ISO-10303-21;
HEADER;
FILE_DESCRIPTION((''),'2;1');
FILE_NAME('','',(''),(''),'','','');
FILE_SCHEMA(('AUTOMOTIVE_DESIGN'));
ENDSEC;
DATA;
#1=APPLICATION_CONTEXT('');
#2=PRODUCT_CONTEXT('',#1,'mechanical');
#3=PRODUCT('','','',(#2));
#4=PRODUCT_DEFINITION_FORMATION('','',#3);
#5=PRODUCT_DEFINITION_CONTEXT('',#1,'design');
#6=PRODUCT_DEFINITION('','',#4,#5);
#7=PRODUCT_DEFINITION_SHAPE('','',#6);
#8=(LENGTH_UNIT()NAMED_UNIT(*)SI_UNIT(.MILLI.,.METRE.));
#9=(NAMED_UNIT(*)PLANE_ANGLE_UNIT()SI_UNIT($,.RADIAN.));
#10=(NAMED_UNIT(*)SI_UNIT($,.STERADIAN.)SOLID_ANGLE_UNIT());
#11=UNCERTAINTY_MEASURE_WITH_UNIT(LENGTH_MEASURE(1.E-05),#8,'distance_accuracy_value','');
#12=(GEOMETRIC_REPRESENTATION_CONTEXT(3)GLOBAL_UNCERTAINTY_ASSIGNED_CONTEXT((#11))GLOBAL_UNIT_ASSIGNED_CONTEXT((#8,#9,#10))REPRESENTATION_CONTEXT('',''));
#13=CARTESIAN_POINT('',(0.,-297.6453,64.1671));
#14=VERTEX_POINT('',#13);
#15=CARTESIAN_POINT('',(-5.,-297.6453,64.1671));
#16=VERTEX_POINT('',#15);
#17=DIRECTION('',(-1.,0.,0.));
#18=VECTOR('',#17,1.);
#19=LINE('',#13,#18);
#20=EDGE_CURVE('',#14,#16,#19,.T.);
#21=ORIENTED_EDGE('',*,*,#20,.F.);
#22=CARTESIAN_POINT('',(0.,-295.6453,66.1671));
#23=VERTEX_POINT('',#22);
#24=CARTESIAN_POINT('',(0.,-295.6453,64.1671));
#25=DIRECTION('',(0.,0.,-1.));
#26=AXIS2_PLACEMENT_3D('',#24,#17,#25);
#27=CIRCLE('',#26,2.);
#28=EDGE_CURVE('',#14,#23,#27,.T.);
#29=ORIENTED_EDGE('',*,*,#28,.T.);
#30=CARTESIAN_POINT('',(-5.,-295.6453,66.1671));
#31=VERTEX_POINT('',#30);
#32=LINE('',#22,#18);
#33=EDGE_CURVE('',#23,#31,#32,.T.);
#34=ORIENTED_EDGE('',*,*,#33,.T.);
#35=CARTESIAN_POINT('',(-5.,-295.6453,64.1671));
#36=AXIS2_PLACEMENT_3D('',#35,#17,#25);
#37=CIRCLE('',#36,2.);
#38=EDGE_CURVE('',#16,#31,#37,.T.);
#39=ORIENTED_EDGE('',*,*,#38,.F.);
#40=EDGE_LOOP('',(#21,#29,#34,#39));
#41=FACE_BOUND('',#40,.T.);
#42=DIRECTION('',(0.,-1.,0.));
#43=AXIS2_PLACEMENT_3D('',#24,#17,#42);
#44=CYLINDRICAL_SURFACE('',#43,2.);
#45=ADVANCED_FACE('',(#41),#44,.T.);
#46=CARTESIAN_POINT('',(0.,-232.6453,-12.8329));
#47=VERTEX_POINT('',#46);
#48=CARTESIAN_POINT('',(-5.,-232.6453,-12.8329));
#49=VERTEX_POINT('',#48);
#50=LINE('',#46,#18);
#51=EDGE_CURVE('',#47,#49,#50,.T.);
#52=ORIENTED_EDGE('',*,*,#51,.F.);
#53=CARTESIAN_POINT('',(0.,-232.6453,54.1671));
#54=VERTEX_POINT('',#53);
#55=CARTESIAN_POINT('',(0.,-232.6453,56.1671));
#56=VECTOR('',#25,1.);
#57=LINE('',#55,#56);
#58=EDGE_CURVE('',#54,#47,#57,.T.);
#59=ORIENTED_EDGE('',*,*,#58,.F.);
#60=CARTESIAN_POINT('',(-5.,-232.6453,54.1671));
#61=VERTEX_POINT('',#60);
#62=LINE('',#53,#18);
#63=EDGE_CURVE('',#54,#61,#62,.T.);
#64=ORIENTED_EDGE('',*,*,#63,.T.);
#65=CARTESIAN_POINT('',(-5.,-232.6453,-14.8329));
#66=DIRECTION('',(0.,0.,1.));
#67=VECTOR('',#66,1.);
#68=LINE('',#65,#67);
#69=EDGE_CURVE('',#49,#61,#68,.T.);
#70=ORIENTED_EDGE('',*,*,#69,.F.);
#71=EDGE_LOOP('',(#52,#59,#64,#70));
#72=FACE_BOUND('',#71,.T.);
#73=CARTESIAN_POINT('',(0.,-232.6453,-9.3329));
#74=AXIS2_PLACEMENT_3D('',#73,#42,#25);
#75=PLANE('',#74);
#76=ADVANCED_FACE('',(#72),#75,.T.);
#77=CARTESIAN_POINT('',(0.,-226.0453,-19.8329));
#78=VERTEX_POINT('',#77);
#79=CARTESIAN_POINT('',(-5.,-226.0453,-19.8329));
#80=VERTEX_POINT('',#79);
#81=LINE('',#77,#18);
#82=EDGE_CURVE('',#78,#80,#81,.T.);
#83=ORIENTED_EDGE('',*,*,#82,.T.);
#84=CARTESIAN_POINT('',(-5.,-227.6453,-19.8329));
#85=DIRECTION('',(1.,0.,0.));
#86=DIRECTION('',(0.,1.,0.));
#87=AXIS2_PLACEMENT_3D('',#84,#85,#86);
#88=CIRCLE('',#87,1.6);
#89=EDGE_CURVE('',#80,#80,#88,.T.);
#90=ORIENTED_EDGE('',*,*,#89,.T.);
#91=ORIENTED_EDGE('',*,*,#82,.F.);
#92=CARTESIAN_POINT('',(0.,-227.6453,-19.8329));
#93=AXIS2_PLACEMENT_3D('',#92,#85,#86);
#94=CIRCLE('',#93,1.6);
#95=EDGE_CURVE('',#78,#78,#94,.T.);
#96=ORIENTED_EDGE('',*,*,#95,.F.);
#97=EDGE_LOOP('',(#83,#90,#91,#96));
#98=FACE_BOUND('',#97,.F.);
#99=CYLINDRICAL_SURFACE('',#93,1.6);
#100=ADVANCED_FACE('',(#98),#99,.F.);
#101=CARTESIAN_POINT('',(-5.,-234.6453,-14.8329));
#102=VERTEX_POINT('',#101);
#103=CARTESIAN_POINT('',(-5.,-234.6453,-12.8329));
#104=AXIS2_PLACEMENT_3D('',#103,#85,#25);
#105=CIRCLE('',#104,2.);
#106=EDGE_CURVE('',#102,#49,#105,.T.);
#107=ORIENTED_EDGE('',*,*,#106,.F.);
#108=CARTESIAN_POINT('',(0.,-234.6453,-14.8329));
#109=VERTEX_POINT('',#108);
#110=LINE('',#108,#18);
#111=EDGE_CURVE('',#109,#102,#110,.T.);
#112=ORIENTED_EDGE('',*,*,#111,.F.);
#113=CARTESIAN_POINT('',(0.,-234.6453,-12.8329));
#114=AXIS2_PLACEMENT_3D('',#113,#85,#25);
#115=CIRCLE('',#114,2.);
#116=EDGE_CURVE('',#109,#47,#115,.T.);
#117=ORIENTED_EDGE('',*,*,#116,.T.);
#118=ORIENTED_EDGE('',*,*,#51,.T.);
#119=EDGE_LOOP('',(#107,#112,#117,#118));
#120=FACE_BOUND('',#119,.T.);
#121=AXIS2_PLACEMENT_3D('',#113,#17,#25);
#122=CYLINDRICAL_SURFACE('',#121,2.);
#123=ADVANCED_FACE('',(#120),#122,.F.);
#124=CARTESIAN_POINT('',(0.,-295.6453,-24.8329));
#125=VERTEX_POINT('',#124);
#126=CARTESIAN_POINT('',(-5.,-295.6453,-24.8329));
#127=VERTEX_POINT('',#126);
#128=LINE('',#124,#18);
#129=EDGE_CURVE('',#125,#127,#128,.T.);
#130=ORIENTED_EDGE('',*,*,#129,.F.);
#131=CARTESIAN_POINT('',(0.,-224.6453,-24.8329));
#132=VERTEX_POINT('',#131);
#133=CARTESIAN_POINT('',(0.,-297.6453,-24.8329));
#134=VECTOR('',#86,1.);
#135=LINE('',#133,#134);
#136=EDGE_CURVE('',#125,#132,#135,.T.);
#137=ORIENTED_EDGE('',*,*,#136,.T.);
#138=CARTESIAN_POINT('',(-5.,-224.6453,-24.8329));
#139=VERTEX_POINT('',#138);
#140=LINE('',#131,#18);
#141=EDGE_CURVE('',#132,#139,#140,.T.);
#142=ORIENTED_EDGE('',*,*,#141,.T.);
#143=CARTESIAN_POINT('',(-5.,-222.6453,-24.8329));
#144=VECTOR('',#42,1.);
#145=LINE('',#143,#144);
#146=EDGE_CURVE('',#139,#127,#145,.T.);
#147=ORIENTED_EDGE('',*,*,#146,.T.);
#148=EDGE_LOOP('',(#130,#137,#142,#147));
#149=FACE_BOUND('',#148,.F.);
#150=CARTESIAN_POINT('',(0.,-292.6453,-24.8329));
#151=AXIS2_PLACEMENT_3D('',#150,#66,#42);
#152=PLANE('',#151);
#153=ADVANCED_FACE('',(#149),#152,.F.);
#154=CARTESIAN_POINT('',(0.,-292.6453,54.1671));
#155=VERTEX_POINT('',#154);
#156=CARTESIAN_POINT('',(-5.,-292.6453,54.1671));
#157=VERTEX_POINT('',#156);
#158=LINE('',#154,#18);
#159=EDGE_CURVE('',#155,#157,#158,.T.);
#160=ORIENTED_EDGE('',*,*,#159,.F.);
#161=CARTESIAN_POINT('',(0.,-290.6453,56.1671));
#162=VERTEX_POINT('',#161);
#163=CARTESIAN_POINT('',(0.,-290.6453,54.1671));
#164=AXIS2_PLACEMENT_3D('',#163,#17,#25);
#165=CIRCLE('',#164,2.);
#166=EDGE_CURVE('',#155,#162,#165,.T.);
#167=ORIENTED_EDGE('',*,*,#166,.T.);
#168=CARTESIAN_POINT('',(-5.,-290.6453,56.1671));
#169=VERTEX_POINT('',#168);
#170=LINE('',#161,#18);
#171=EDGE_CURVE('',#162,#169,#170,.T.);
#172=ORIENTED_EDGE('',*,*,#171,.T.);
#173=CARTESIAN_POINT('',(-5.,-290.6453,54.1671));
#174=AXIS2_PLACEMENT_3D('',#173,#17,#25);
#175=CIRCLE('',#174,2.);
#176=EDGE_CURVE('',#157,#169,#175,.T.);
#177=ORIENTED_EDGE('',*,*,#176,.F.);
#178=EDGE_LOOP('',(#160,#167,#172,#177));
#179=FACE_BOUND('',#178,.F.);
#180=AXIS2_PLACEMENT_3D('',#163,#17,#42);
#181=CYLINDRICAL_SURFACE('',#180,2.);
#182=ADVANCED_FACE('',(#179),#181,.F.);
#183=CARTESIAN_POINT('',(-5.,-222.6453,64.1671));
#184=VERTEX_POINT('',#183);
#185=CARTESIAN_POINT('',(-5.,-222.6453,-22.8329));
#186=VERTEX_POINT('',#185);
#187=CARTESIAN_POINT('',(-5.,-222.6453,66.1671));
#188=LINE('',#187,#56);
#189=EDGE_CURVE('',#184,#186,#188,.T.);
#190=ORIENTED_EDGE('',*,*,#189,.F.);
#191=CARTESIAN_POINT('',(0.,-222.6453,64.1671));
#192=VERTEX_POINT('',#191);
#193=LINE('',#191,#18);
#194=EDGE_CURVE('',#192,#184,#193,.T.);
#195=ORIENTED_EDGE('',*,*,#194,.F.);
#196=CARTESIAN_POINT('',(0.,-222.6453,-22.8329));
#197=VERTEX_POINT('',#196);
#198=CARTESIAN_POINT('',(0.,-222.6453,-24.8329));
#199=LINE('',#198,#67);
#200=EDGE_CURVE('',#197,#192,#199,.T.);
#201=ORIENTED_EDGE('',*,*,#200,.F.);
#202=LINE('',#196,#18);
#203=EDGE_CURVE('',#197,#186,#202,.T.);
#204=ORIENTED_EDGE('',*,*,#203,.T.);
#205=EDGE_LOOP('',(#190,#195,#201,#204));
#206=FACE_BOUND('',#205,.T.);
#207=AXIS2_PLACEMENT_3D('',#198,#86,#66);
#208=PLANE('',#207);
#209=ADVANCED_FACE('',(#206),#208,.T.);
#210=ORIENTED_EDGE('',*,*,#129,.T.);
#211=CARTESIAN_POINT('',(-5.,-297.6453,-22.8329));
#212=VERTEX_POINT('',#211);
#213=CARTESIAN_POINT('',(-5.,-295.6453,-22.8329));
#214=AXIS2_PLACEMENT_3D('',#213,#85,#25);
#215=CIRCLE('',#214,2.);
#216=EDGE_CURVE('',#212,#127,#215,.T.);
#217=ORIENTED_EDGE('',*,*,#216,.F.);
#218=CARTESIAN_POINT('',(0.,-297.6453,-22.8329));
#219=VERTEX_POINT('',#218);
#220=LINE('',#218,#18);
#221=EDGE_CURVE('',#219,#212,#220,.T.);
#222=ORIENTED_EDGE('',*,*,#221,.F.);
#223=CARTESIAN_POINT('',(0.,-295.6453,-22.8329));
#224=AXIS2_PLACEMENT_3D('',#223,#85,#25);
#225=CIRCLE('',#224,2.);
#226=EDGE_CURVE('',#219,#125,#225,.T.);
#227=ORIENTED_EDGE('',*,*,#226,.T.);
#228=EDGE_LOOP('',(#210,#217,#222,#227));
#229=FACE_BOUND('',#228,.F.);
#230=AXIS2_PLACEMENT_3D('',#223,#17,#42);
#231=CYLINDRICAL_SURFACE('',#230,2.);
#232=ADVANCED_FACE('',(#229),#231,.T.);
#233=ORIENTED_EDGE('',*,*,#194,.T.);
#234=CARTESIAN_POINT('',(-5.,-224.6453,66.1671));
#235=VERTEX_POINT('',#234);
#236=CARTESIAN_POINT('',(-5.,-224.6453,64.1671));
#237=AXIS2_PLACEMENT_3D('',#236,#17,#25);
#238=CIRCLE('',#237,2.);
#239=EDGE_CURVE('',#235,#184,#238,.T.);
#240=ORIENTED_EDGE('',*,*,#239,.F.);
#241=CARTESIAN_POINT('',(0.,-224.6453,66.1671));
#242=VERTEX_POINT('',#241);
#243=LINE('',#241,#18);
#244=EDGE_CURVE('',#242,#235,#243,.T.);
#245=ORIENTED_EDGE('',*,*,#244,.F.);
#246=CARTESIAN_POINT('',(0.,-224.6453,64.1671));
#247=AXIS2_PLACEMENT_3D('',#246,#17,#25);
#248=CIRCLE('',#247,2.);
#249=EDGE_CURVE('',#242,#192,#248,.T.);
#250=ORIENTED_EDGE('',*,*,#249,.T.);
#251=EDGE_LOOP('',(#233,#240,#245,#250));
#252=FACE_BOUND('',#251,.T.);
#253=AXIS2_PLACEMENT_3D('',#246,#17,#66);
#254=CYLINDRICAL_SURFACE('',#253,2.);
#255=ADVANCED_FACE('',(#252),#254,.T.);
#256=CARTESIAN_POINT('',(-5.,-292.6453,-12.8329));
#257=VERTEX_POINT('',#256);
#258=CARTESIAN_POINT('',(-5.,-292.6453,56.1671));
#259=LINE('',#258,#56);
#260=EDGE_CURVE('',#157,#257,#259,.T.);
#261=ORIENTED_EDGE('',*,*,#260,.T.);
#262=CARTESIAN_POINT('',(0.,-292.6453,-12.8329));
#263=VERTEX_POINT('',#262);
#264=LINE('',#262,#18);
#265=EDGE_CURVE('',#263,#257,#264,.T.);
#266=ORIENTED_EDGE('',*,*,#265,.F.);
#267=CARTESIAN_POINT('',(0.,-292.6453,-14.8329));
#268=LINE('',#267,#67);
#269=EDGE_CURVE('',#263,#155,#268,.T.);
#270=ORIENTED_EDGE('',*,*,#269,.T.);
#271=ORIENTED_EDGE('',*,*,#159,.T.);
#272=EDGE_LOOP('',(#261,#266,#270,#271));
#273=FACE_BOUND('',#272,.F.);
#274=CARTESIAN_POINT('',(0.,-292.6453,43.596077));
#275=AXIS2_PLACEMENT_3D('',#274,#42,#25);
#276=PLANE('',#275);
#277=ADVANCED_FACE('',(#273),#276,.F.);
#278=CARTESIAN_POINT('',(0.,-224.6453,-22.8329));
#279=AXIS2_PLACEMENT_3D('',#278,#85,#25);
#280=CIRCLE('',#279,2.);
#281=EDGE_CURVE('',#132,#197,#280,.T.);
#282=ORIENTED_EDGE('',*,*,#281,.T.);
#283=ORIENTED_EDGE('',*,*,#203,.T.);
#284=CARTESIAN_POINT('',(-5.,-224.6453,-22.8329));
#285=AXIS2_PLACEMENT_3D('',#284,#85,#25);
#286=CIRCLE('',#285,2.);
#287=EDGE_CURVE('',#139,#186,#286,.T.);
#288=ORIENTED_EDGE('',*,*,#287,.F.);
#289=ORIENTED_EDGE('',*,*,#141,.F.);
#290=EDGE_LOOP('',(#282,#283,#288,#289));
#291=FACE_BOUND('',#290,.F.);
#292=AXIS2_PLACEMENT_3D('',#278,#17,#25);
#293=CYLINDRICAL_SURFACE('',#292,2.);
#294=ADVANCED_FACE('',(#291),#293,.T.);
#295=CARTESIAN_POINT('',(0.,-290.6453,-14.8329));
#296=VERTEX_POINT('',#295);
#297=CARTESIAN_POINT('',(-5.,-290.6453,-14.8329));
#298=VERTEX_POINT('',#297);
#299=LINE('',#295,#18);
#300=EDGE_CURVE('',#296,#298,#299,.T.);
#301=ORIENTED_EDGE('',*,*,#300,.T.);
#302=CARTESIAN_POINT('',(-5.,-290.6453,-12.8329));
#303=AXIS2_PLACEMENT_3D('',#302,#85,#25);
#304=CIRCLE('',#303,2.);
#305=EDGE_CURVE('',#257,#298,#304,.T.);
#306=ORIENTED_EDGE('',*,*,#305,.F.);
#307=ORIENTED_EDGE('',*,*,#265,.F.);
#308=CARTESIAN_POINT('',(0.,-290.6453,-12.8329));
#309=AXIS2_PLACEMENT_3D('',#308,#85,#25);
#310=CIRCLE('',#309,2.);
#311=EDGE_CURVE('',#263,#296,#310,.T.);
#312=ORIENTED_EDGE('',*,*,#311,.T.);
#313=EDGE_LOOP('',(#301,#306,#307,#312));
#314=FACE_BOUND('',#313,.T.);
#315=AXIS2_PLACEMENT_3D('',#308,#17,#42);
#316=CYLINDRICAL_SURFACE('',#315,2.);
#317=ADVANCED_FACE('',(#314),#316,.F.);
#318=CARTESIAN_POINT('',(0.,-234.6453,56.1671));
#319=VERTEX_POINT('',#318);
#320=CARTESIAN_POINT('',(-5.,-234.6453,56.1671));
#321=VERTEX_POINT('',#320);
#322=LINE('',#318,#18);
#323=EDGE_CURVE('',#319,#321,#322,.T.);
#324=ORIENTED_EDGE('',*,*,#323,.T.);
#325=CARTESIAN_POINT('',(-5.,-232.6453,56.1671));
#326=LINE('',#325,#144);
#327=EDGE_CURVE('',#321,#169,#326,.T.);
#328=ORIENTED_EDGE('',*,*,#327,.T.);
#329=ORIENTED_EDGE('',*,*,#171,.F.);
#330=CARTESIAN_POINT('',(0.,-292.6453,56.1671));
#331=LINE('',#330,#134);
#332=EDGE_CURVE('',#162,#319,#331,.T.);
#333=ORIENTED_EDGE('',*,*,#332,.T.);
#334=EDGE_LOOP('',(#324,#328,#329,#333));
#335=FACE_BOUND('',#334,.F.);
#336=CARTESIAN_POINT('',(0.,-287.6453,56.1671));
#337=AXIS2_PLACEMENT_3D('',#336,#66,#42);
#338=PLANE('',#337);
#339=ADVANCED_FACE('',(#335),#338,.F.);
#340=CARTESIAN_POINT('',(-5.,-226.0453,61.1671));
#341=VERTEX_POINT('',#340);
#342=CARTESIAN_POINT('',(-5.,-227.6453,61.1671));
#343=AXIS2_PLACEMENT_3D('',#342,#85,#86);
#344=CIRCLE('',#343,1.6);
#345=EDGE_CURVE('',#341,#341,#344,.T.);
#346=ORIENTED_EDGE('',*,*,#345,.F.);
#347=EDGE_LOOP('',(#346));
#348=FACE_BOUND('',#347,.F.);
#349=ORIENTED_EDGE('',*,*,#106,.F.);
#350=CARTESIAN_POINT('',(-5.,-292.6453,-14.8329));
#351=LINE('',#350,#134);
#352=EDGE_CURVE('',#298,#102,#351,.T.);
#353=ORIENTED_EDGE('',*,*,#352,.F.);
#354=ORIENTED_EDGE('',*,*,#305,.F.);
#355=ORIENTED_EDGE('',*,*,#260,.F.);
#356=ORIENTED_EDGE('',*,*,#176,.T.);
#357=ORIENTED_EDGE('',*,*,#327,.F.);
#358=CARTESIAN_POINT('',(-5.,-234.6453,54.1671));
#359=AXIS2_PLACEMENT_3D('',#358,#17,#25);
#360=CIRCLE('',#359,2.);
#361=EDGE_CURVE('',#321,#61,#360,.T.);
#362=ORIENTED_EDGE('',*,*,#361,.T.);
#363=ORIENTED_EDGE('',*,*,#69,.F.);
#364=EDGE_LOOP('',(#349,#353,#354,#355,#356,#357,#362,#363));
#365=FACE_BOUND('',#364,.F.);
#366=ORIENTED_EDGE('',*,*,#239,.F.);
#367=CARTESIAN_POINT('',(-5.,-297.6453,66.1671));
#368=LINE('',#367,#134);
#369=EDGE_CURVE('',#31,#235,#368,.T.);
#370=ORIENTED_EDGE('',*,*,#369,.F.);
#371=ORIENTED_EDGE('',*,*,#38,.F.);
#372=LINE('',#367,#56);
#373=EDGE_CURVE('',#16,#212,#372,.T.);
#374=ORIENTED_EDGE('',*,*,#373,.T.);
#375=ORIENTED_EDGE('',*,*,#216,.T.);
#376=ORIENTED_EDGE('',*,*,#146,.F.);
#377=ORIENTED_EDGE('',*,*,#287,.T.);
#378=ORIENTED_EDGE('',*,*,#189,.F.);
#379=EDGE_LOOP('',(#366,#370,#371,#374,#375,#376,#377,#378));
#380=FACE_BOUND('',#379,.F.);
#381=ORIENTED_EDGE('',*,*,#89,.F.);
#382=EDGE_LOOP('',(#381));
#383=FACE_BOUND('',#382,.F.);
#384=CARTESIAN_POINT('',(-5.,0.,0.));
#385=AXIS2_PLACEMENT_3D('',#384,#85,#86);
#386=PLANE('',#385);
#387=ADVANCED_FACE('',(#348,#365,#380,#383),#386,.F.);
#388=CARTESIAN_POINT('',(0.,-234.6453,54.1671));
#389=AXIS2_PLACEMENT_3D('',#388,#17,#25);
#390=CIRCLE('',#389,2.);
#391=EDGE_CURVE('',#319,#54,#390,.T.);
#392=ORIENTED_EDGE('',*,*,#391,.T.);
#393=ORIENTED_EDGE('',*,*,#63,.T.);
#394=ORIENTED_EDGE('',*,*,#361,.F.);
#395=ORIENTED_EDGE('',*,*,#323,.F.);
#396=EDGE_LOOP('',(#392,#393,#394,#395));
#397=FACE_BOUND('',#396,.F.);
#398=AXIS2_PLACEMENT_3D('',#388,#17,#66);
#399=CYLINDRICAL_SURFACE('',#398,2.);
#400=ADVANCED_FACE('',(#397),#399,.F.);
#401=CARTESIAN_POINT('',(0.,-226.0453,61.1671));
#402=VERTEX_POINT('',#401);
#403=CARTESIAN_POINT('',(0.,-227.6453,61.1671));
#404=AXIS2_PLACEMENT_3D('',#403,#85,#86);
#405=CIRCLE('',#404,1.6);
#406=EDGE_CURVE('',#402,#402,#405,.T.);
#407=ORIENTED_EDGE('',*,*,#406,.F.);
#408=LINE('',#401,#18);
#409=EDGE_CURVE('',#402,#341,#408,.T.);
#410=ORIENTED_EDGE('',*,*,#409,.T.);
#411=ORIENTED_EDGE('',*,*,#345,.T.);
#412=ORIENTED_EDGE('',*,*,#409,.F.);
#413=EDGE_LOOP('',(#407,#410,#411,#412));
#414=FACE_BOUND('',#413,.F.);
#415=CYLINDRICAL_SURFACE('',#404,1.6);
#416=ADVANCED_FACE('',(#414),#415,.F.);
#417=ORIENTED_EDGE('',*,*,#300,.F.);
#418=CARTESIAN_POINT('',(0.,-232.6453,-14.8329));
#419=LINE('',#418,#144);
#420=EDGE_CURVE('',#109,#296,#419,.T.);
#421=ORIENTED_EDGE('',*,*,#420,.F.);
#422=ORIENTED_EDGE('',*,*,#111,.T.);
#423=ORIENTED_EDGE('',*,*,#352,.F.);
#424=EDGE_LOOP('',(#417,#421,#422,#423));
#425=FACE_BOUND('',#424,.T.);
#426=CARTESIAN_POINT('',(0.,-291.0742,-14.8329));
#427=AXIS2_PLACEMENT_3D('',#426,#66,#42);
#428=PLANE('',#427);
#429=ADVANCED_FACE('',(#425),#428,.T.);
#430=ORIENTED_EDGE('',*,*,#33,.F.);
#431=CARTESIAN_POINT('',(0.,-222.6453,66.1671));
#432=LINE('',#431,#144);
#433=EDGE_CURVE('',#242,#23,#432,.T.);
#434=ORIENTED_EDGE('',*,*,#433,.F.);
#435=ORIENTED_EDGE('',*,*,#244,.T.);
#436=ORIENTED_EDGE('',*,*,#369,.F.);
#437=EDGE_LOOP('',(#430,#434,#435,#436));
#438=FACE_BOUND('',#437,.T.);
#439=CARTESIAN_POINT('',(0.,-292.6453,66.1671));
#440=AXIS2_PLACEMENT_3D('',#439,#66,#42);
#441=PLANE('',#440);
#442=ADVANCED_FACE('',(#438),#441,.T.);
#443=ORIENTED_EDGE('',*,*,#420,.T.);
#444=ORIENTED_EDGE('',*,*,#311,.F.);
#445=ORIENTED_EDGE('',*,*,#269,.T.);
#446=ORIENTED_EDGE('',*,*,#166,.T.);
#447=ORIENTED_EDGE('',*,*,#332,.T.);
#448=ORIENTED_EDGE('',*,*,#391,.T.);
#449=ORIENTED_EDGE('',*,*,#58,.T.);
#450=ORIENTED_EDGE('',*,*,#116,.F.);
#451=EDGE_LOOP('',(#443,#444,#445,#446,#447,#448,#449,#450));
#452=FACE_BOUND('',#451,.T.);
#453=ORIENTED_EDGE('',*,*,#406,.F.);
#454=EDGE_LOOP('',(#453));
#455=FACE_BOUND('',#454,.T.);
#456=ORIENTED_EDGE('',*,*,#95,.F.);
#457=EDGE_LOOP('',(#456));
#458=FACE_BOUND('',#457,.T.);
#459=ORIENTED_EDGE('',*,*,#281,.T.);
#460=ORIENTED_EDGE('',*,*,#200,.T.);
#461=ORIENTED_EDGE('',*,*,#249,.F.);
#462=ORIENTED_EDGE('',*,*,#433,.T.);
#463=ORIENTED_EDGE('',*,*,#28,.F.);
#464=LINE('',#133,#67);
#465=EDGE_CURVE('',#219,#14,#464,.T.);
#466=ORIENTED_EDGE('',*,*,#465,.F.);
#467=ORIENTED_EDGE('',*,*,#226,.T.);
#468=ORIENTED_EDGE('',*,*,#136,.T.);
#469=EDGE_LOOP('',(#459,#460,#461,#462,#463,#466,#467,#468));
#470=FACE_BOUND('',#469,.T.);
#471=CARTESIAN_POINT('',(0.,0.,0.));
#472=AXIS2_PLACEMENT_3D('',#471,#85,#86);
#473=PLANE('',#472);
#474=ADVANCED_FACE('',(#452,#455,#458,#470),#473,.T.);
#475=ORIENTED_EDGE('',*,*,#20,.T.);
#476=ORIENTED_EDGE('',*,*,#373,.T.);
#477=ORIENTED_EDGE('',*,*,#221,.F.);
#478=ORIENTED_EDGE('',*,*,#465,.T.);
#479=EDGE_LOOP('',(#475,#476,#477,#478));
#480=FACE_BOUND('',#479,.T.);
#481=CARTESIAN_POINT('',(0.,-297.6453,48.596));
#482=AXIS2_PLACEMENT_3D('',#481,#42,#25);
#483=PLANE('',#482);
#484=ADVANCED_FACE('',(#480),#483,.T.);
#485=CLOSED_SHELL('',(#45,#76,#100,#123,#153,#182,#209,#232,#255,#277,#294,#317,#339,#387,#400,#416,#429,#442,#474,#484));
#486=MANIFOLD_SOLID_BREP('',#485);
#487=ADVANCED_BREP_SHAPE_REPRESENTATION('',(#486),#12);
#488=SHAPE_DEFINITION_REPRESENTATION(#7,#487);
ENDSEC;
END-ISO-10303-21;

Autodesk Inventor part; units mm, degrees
ref_plane "YZ Plane" through (0, 0, 0) normal (1, 0, 0) x (0, 1, 0)
ref_plane "XZ Plane" through (0, 0, 0) normal (0, 1, 0) x (-1, 0, 0)
ref_plane "XY Plane" through (0, 0, 0) normal (0, 0, 1) x (1, 0, 0)
sketch "スケッチ1" plane through (0, 0, 0) normal (1, 0, 0) x (0, 1, 0)
  line L0 (-222.6453, 335.6671) -> (407.3547, 335.6671)
  line L1 (407.3547, 335.6671) -> (407.3547, -294.3329)
  line L2 (407.3547, -294.3329) -> (-222.6453, -294.3329)
  line L3 (-222.6453, -294.3329) -> (-222.6453, 335.6671)
  line L4 (-222.6453, 335.6671) -> (407.3547, -294.3329) construction
  line L5 (407.3547, 335.6671) -> (-222.6453, -294.3329) construction
  line L6 (-202.6453, 238.6671) -> (-202.6453, -181.3329)
  line L7 (-202.6453, -181.3329) -> (-222.6453, -181.3329)
  line L8 (-222.6453, -181.3329) -> (-222.6453, 230.6671)
  line L9 (334.3547, 335.6671) -> (-149.6453, 335.6671)
  line L10 (-149.6453, 335.6671) -> (-149.6453, 315.6671)
  line L11 (-149.6453, 315.6671) -> (334.3547, 315.6671)
  line L12 (334.3547, 315.6671) -> (334.3547, 335.6671)
  line L13 (-202.6453, 238.6671) -> (-202.6453, 335.6671)
  line L14 (92.3547, 20.6671) -> (-864.2426, 20.6671)
  circle A0 centre (92.3547, 20.6671) radius 400
  line L15 (-237.6453, 45.6671) -> (-287.6453, 45.6671)
  line L16 (-287.6453, 45.6671) -> (-287.6453, -4.3329)
  line L17 (-287.6453, -4.3329) -> (-237.6453, -4.3329)
  line L18 (-237.6453, -4.3329) -> (-237.6453, 45.6671)
  line L19 (92.3547, 20.6671) -> (92.3547, -610.2507)
  line L20 (-222.6453, 60.6671) -> (-302.6453, 60.6671) construction
  line L21 (-302.6453, 60.6671) -> (-302.6453, 50.6671)
  line L22 (-302.6453, 50.6671) -> (-222.6453, 50.6671)
  line L23 (-222.6453, 50.6671) -> (-222.6453, 60.6671)
  line L24 (-302.6453, 50.6671) -> (-292.6453, 50.6671)
  line L25 (-292.6453, 50.6671) -> (-292.6453, 20.6671)
  line L26 (-292.6453, 20.6671) -> (-302.6453, 20.6671)
  line L27 (-302.6453, 20.6671) -> (-302.6453, 50.6671)
  line L28 (387.3547, 222.6671) -> (407.3547, 222.6671)
  line L29 (407.3547, 222.6671) -> (407.3547, -181.3329)
  line L30 (407.3547, -181.3329) -> (387.3547, -181.3329)
  line L31 (387.3547, -181.3329) -> (387.3547, 222.6671)
  line L32 (-129.8635, -294.3329) -> (334.3547, -294.3329)
  line L33 (334.3547, -294.3329) -> (334.3547, -274.3329)
  line L34 (334.3547, -274.3329) -> (-149.6453, -274.3329)
  line L35 (407.3547, 335.6671) -> (92.3547, 20.6671)
  line L36 (407.3547, 145.6671) -> (407.3547, 165.6671)
  circle A1 centre (604.3547, 20.6671) radius 122.5
  circle A2 centre (272.0452, 20.6671) radius 600
  circle A3 centre (634.0363, 20.6671) radius 200
  circle A4 centre (92.3547, 20.6671) radius 10
  arc A5 (92.3547, 170.6671) -> (92.3547, -129.3329) centre (92.3547, 20.6671) ccw
  arc A6 (92.3547, 160.6671) -> (92.3547, -119.3329) centre (92.3547, 20.6671) ccw
  line L37 (-53.9724, 53.6575) -> (-44.2173, 51.4581)
  line L38 (-45.2265, 58.3488) -> (-48.0856, 45.6671)
  line L39 (-48.0856, 45.6671) -> (-52.9632, 46.7668)
  line L40 (-52.9632, 46.7668) -> (-50.104, 59.4485)
  line L41 (-50.104, 59.4485) -> (-45.2265, 58.3488)
  arc A7 (63.2246, 162.7109) -> (63.2246, -121.3767) centre (92.3547, 20.6671) ccw
  circle A8 centre (-59.1356, 59.9471) radius 6.5
  circle A9 centre (-36.6854, 54.8855) radius 6.5 construction
  circle A10 centre (-36.6854, 54.8855) radius 1.5 construction
  circle A11 centre (-59.1356, 59.9471) radius 1.5
  line L42 (62.1879, 43.1671) -> (-81.7815, 43.1671)
  line L43 (-81.7815, 43.1671) -> (-81.7815, 28.1671)
  line L44 (-81.7815, 28.1671) -> (62.1879, 28.1671)
  line L45 (62.1879, 28.1671) -> (62.1879, 43.1671)
  line L46 (-53.9724, -12.3232) -> (-44.2173, -10.1239)
  line L47 (-45.2265, -17.0146) -> (-48.0856, -4.3329)
  line L48 (-48.0856, -4.3329) -> (-52.9632, -5.4326)
  line L49 (-52.9632, -5.4326) -> (-50.104, -18.1142)
  line L50 (-50.104, -18.1142) -> (-45.2265, -17.0146)
  circle A12 centre (-59.1356, -18.6128) radius 6.5
  circle A13 centre (-36.6854, -13.5513) radius 6.5 construction
  circle A14 centre (-36.6854, -13.5513) radius 1.5 construction
  circle A15 centre (-59.1356, -18.6128) radius 1.5
  line L51 (62.1879, -1.8329) -> (-81.7815, -1.8329)
  line L52 (-81.7815, -1.8329) -> (-81.7815, 13.1671)
  line L53 (-81.7815, 13.1671) -> (62.1879, 13.1671)
  line L54 (62.1879, 13.1671) -> (62.1879, -1.8329)
  line L55 (-59.1356, 59.9471) -> (-36.6854, 54.8855) construction
  line L56 (-36.6854, 54.8855) -> (-37.2352, 52.4467) construction
  line L57 (-37.2352, 52.4467) -> (-59.6855, 57.5083) construction
  line L58 (-59.6855, 57.5083) -> (-59.1356, 59.9471) construction
  line L59 (-36.6854, 54.8855) -> (-59.1356, 59.9471) construction
  line L60 (-59.1356, 59.9471) -> (-58.5858, 62.3858) construction
  line L61 (-58.5858, 62.3858) -> (-36.1355, 57.3243) construction
  line L62 (-36.1355, 57.3243) -> (-36.6854, 54.8855) construction
  line L63 (-36.1355, 57.3243) -> (-37.2352, 52.4467) construction
  line L64 (-37.2352, 52.4467) -> (-25.529, 49.8075) construction
  line L65 (-25.529, 49.8075) -> (-24.4294, 54.6851) construction
  line L66 (-24.4294, 54.6851) -> (-36.1355, 57.3243) construction
  line L67 (-58.5858, 62.3858) -> (-59.6855, 57.5083) construction
  line L68 (-59.6855, 57.5083) -> (-71.3917, 60.1475) construction
  line L69 (-71.3917, 60.1475) -> (-70.292, 65.0251) construction
  line L70 (-70.292, 65.0251) -> (-58.5858, 62.3858) construction
  line L71 (-62.9135, 65.9243) -> (-36.5865, 59.9887)
  line L72 (-36.5865, 59.9887) -> (-39.8855, 45.356)
  line L73 (-39.8855, 45.356) -> (-66.2126, 51.2916)
  line L74 (-66.2126, 51.2916) -> (-62.9135, 65.9243)
  line L75 (-62.9135, -24.5901) -> (-36.5865, -18.6545)
  line L76 (-36.5865, -18.6545) -> (-39.8855, -4.0218)
  line L77 (-39.8855, -4.0218) -> (-66.2126, -9.9574)
  line L78 (-66.2126, -9.9574) -> (-62.9135, -24.5901)
  arc A16 (-39.8855, 45.356) -> (-39.8855, -4.0218) centre (92.3547, 20.6671) ccw
  arc A17 (-66.2126, 51.2916) -> (-66.2126, -9.9574) centre (92.3547, 20.6671) ccw
  circle A18 centre (-60.1453, 35.6671) radius 1.25
  line L79 (-52.6453, 20.6671) -> (-52.6453, 95.4053)
  circle A19 centre (-45.1453, 35.6671) radius 1.25
  circle A20 centre (-60.1453, 5.6671) radius 1.25
  circle A21 centre (-45.1453, 5.6671) radius 1.25
  line L80 (92.3547, 20.6671) -> (92.3547, 160.6671)
  line L81 (92.3547, 20.6671) -> (44.4719, 152.2241)
  line L82 (92.3547, 160.6671) -> (92.3547, 170.6671)
  line L83 (-45.2298, 46.5609) -> (-41.9308, 61.1936)
  line L84 (-45.2298, -5.2267) -> (-41.9308, -19.8594)
  circle A22 centre (92.3547, 20.6671) radius 20
  line L85 (387.3547, 65.6671) -> (-202.6453, 65.6671)
  line L86 (-202.6453, 65.6671) -> (-202.6453, 45.6671)
  line L87 (-202.6453, 45.6671) -> (387.3547, 45.6671)
  line L88 (387.3547, 45.6671) -> (387.3547, 65.6671)
  line L89 (52.3547, 315.6671) -> (42.3547, 315.6671)
  line L90 (42.3547, 315.6671) -> (42.3547, 65.6671)
  line L91 (42.3547, 65.6671) -> (52.3547, 65.6671)
  line L92 (52.3547, 65.6671) -> (52.3547, 315.6671)
  line L93 (387.3547, -24.3329) -> (-202.6453, -24.3329)
  line L94 (-202.6453, -4.3329) -> (387.3547, -4.3329)
  line L95 (42.3547, -274.3329) -> (42.3547, -24.3329)
  line L96 (52.3547, -24.3329) -> (52.3547, -274.3329)
  line L97 (52.3547, 65.6671) -> (52.3547, -24.3329)
  line L98 (132.3547, 65.6671) -> (132.3547, -24.3329)
  circle A23 centre (112.3547, 55.6671) radius 1.5
  circle A24 centre (72.3547, 55.6671) radius 1.5
  circle A25 centre (112.3547, -14.3329) radius 1.5
  circle A26 centre (72.3547, -14.3329) radius 1.5
  circle A27 centre (47.3547, 145.6671) radius 1.5
  circle A28 centre (47.3547, 145.6671) radius 5
  circle A29 centre (-37.6453, 55.6671) radius 5
  circle A30 centre (-37.6453, 55.6671) radius 1.5
  line L99 (52.3547, 154.8312) -> (52.3547, 145.6671)
  line L100 (42.3547, 145.6671) -> (42.3547, 151.4341)
  line L101 (-45.395, 45.6671) -> (-35.2253, 51.2917)
  line L102 (-40.216, 65.6671) -> (-34.0112, 59.1013)
  circle A31 centre (47.3547, -104.3329) radius 1.5
  circle A32 centre (47.3547, -104.3329) radius 5
  circle A33 centre (-37.6453, -14.3329) radius 5
  circle A34 centre (-37.6453, -14.3329) radius 1.5
  line L103 (52.3547, -113.497) -> (52.3547, -104.3329)
  line L104 (42.3547, -104.3329) -> (42.3547, -110.0999)
  line L105 (-45.395, -4.3329) -> (-35.2253, -9.9575)
  line L106 (-40.216, -24.3329) -> (-34.0112, -17.7671)
  line L107 (-149.6453, -274.3329) -> (-149.6453, -294.3329)
  line L108 (334.3547, 335.6671) -> (314.3547, 335.6671)
  line L109 (314.3547, 335.6671) -> (314.3547, 315.6671)
  line L110 (314.3547, 315.6671) -> (334.3547, 315.6671)
  line L111 (334.3547, 315.6671) -> (334.3547, 335.6671)
  line L112 (334.3547, -294.3329) -> (314.3547, -294.3329)
  line L113 (314.3547, -294.3329) -> (314.3547, -274.3329)
  line L114 (314.3547, -274.3329) -> (334.3547, -274.3329)
  line L115 (334.3547, -274.3329) -> (334.3547, -294.3329)
  line L116 (289.3547, 315.6671) -> (387.3547, 217.6671)
  line L117 (387.3547, 217.6671) -> (376.7481, 207.0605)
  line L118 (376.7481, 207.0605) -> (278.7481, 305.0605)
  line L119 (278.7481, 305.0605) -> (289.3547, 315.6671)
  line L120 (289.3547, 315.6671) -> (289.3547, 335.6671)
  line L121 (290.2715, 314.7504) -> (279.6649, 304.1438)
  line L122 (290.625, 293.1836) -> (364.8712, 218.9374)
  line L123 (364.8712, 218.9374) -> (323.8591, 177.9252)
  line L124 (323.8591, 177.9252) -> (249.6128, 252.1714)
  line L125 (249.6128, 252.1714) -> (290.625, 293.1836)
  line L126 (383.256, 221.7658) -> (372.6494, 211.1592)
  line L127 (186.1172, 315.6671) -> (387.3547, 114.4295)
  line L128 (387.3547, 114.4295) -> (376.7481, 103.8229)
  line L129 (376.7481, 103.8229) -> (175.5105, 305.0605)
  line L130 (306.5349, 298.4869) -> (295.9283, 287.8803)
  line L131 (370.1745, 234.8473) -> (359.5679, 224.2407)
  circle A35 centre (292.0392, 302.376) radius 1.5
  circle A36 centre (306.1814, 288.2339) radius 1.5
  line L132 (278.7481, 305.0605) -> (268.1415, 315.6671)
  circle A37 centre (279.3547, 325.6671) radius 1.5
  circle A38 centre (269.3547, 325.6671) radius 1.5
  line L133 (264.3547, 335.6671) -> (264.3547, 315.6671)
  line L134 (186.1172, 315.6671) -> (186.1172, 315.6671)
  line L135 (186.1172, 315.6671) -> (186.1172, 335.6671)
  line L136 (175.5105, 305.0605) -> (164.9039, 315.6671)
  line L137 (161.1172, 335.6671) -> (161.1172, 315.6671)
  line L138 (376.7481, 207.0605) -> (387.3547, 196.4539)
  line L139 (387.3547, 217.6671) -> (407.3547, 217.6671)
  line L140 (387.3547, 114.4295) -> (387.3547, 114.4295)
  line L141 (376.7481, 103.8229) -> (387.3547, 93.2163)
  line L142 (-104.6453, 315.6671) -> (-202.6453, 217.6671)
  line L143 (-192.0387, 207.0605) -> (-94.0387, 305.0605)
  line L144 (-104.6453, 315.6671) -> (-104.6453, 335.6671)
  line L145 (-105.562, 314.7504) -> (-94.9554, 304.1438)
  line L146 (-180.1618, 218.9374) -> (-139.1496, 177.9252)
  line L147 (-64.9034, 252.1714) -> (-105.9156, 293.1836)
  line L148 (-198.5465, 221.7658) -> (-187.9399, 211.1592)
  line L149 (-1.4077, 315.6671) -> (-202.6453, 114.4295)
  line L150 (-202.6453, 114.4295) -> (-192.0387, 103.8229)
  line L151 (-192.0387, 103.8229) -> (9.1989, 305.0605)
  line L152 (9.1989, 305.0605) -> (-1.4077, 315.6671)
  line L153 (-121.8255, 298.4869) -> (-111.2189, 287.8803)
  line L154 (-94.0387, 305.0605) -> (-83.4321, 315.6671)
  line L155 (-79.6453, 335.6671) -> (-79.6453, 315.6671)
  line L156 (-1.4077, 315.6671) -> (-1.4077, 335.6671)
  line L157 (9.1989, 305.0605) -> (19.8055, 315.6671)
  line L158 (23.5923, 335.6671) -> (23.5923, 315.6671)
  line L159 (-192.0387, 207.0605) -> (-202.6453, 196.4539)
  line L160 (-202.6453, 217.6671) -> (-222.6453, 217.6671)
  line L161 (-192.0387, 103.8229) -> (-202.6453, 93.2163)
  line L162 (289.3547, -274.3329) -> (387.3547, -176.3329)
  line L163 (376.7481, -165.7263) -> (278.7481, -263.7263)
  line L164 (290.2715, -273.4161) -> (279.6649, -262.8095)
  line L165 (383.256, -180.4316) -> (372.6494, -169.825)
  line L166 (186.1172, -274.3329) -> (387.3547, -73.0953)
  line L167 (387.3547, -73.0953) -> (376.7481, -62.4887)
  line L168 (376.7481, -62.4887) -> (175.5105, -263.7263)
  line L169 (175.5105, -263.7263) -> (186.1172, -274.3329)
  line L170 (-1.4077, -274.3329) -> (-202.6453, -73.0953)
  line L171 (9.1989, -263.7263) -> (-1.4077, -274.3329)
  line L172 (-192.0387, -62.4887) -> (9.1989, -263.7263)
  line L173 (-202.6453, -73.0953) -> (-192.0387, -62.4887)
  line L174 (-192.0387, -165.7263) -> (-94.0387, -263.7263)
  line L175 (-104.6453, -274.3329) -> (-202.6453, -176.3329)
  line L176 (-105.562, -273.4161) -> (-94.9554, -262.8095)
  line L177 (-121.8255, -257.1527) -> (-111.2189, -246.5461)
  line L178 (-198.5465, -180.4316) -> (-187.9399, -169.825)
  line L179 (334.3547, 315.6671) -> (314.3547, 315.6671)
  arc A39 (92.3547, 106.6671) -> (92.3547, -65.3329) centre (92.3547, 20.6671) ccw construction
  circle A40 centre (1.4881, 69.1671) radius 21
  circle A41 centre (92.3547, 20.6671) radius 124
  circle A42 centre (1.4881, 69.1671) radius 17
  arc A43 (132.8499, 96.5364) -> (92.3547, 106.6671) centre (92.3547, 20.6671) ccw construction
  line L180 (52.3547, 65.6671) -> (42.3547, 65.6671)
  line L181 (42.3547, 65.6671) -> (42.3547, -24.3329)
  line L182 (42.3547, -24.3329) -> (52.3547, -24.3329)
  line L183 (52.3547, -24.3329) -> (52.3547, 65.6671)
  line L184 (52.3547, 315.6671) -> (42.3547, 315.6671)
  line L185 (42.3547, 315.6671) -> (42.3547, 335.6671)
  line L186 (42.3547, 335.6671) -> (52.3547, 335.6671)
  line L187 (52.3547, 335.6671) -> (52.3547, 315.6671)
  line L188 (52.3547, -274.3329) -> (42.3547, -274.3329)
  line L189 (42.3547, -274.3329) -> (42.3547, -294.3329)
  line L190 (42.3547, -294.3329) -> (52.3547, -294.3329)
  line L191 (52.3547, -294.3329) -> (52.3547, -274.3329)
  line L192 (142.3547, 315.6671) -> (142.3547, 65.6671)
  line L193 (132.3547, 65.6671) -> (132.3547, 315.6671)
  line L194 (142.3547, -274.3329) -> (142.3547, -24.3329)
  line L195 (132.3547, -24.3329) -> (132.3547, -274.3329)
  line L196 (142.3547, 65.6671) -> (142.3547, -24.3329)
  line L197 (132.3547, -24.3329) -> (132.3547, 65.6671)
  line L198 (142.3547, 315.6671) -> (142.3547, 335.6671)
  line L199 (132.3547, 335.6671) -> (132.3547, 315.6671)
  line L200 (142.3547, -274.3329) -> (142.3547, -294.3329)
  line L201 (132.3547, -294.3329) -> (132.3547, -274.3329)
  line L202 (51.9456, 143.6861) -> (57.3547, 156.2215)
  line L203 (43.613, 142.3505) -> (37.3547, 149.411)
  line L204 (51.9456, -102.3519) -> (57.3547, -114.8873)
  line L205 (43.613, -101.0163) -> (37.3547, -108.0768)
  arc A44 (132.8499, 96.5364) -> (51.8596, -55.2021) centre (92.3547, 20.6671) ccw
  circle A45 centre (92.3547, 20.6671) radius 86 construction
  circle A46 centre (92.3547, 20.6671) radius 78.5
  circle A47 centre (47.3547, 78.6671) radius 1.5
  circle A48 centre (47.3547, 78.6671) radius 5
  circle A49 centre (137.3547, 78.6671) radius 5
  circle A50 centre (137.3547, 78.6671) radius 1.5
  line L206 (138.9096, 73.915) -> (147.3547, 76.6783)
  line L207 (132.6797, 76.8939) -> (127.3547, 90.9327)
  line L208 (142.3547, 81.1836) -> (142.3547, 90.6385)
  arc A51 (142.3547, 90.6385) -> (132.8499, 96.5364) centre (92.3547, 20.6671) ccw
  line L209 (52.0297, 76.8939) -> (57.3547, 90.9327)
  line L210 (45.7999, 73.915) -> (37.3547, 76.6783)
  circle A52 centre (47.3547, -37.3329) radius 1.5
  circle A53 centre (47.3547, -37.3329) radius 5
  line L211 (52.0297, -35.5596) -> (57.3547, -49.5985) construction
  line L212 (45.7999, -32.5808) -> (37.3547, -35.344)
  line L213 (52.3547, -46.8773) -> (52.3547, -55.4643)
  arc A54 (51.8288, -55.1857) -> (52.3547, -55.4643) centre (92.3547, 20.6671) ccw
  line L214 (52.3547, -55.4643) -> (52.3547, -37.3329)
  line L215 (315.0202, 290.0016) -> (304.4136, 279.395)
  line L216 (387.3547, 217.6671) -> (407.3547, 217.6671)
  line L217 (386.438, 218.5839) -> (375.8314, 207.9773)
  circle A55 centre (374.0636, 220.3516) radius 1.5
  circle A56 centre (359.9215, 234.4938) radius 1.5
  circle A57 centre (397.3547, 207.6671) radius 1.5
  circle A58 centre (397.3547, 197.6671) radius 1.5
  line L218 (407.3547, 192.6671) -> (387.3547, 192.6671)
  line L219 (361.6893, 243.3326) -> (351.0827, 232.726)
  circle A59 centre (176.1172, 325.6671) radius 1.5
  circle A60 centre (166.1172, 325.6671) radius 1.5
  line L220 (290.2715, 314.7504) -> (187.0339, 314.7504)
  line L221 (279.6649, 304.1438) -> (176.4273, 304.1438)
  line L222 (187.0339, 314.7504) -> (176.4273, 304.1438)
  circle A61 centre (188.8017, 302.376) radius 1.5
  circle A62 centre (202.9438, 288.2339) radius 1.5
  line L223 (211.7826, 290.0016) -> (201.176, 279.395)
  line L224 (387.3547, 114.4295) -> (407.3547, 114.4295)
  line L225 (407.3547, 89.4295) -> (387.3547, 89.4295)
  circle A63 centre (397.3547, 104.4295) radius 1.5
  circle A64 centre (397.3547, 94.4295) radius 1.5
  line L226 (386.438, 115.3463) -> (375.8314, 104.7397)
  circle A65 centre (374.0636, 117.114) radius 1.5
  circle A66 centre (359.9215, 131.2562) radius 1.5
  line L227 (361.6893, 140.095) -> (351.0827, 129.4884)
  line L228 (-104.6453, 315.6671) -> (-104.6453, 335.6671)
  line L229 (-105.562, 314.7504) -> (-94.9554, 304.1438)
  line L230 (-121.8255, 298.4869) -> (-111.2189, 287.8803)
  circle A67 centre (-107.3298, 302.376) radius 1.5
  circle A68 centre (-121.4719, 288.2339) radius 1.5
  circle A69 centre (-94.6453, 325.6671) radius 1.5
  circle A70 centre (-84.6453, 325.6671) radius 1.5
  line L231 (-79.6453, 335.6671) -> (-79.6453, 315.6671)
  line L232 (-1.4077, 315.6671) -> (-1.4077, 335.6671)
  line L233 (23.5923, 335.6671) -> (23.5923, 315.6671)
  line L234 (-202.6453, 217.6671) -> (-222.6453, 217.6671)
  line L235 (-130.3107, 290.0016) -> (-119.7041, 279.395)
  line L236 (-176.9798, 243.3326) -> (-166.3732, 232.726)
  circle A71 centre (-175.212, 234.4938) radius 1.5
  circle A72 centre (-189.3542, 220.3516) radius 1.5
  line L237 (-201.7285, 218.5839) -> (-191.1219, 207.9773)
  line L238 (-222.6453, 192.6671) -> (-202.6453, 192.6671)
  circle A73 centre (-212.6453, 197.6671) radius 1.5
  circle A74 centre (-212.6453, 207.6671) radius 1.5
  circle A75 centre (8.5923, 325.6671) radius 1.5
  circle A76 centre (18.5923, 325.6671) radius 1.5
  line L239 (-2.3244, 314.7504) -> (8.2822, 304.1438)
  circle A77 centre (-4.0922, 302.376) radius 1.5
  circle A78 centre (-18.2343, 288.2339) radius 1.5
  line L240 (-27.0731, 290.0016) -> (-16.4665, 279.395)
  line L241 (-202.6453, 114.4295) -> (-222.6453, 114.4295)
  line L242 (-222.6453, 89.4295) -> (-202.6453, 89.4295)
  circle A79 centre (-212.6453, 94.4295) radius 1.5
  circle A80 centre (-212.6453, 104.4295) radius 1.5
  line L243 (-201.7285, 115.3463) -> (-191.1219, 104.7397)
  circle A81 centre (-189.3542, 117.114) radius 1.5
  circle A82 centre (-175.212, 131.2562) radius 1.5
  line L244 (-176.9798, 140.095) -> (-166.3732, 129.4884)
  line L245 (289.3547, -274.3329) -> (289.3547, -294.3329)
  line L246 (290.2715, -273.4161) -> (279.6649, -262.8095)
  circle A83 centre (292.0392, -261.0418) radius 1.5
  circle A84 centre (306.1814, -246.8996) radius 1.5
  circle A85 centre (279.3547, -284.3329) radius 1.5
  circle A86 centre (269.3547, -284.3329) radius 1.5
  line L247 (264.3547, -294.3329) -> (264.3547, -274.3329)
  line L248 (186.1172, -274.3329) -> (186.1172, -294.3329)
  line L249 (161.1172, -294.3329) -> (161.1172, -274.3329)
  line L250 (387.3547, -176.3329) -> (407.3547, -176.3329)
  line L251 (-104.6453, -274.3329) -> (-104.6453, -294.3329)
  line L252 (-79.6453, -294.3329) -> (-79.6453, -274.3329)
  line L253 (23.5923, -294.3329) -> (23.5923, -274.3329)
  line L254 (-105.562, -273.4161) -> (-94.9554, -262.8095)
  line L255 (-202.6453, -176.3329) -> (-222.6453, -176.3329)
  line L256 (315.0202, -248.6674) -> (304.4136, -238.0608)
  line L257 (361.6893, -201.9984) -> (351.0827, -191.3918)
  circle A87 centre (359.9215, -193.1595) radius 1.5
  circle A88 centre (374.0636, -179.0174) radius 1.5
  line L258 (386.438, -177.2496) -> (375.8314, -166.643)
  line L259 (407.3547, -151.3329) -> (387.3547, -151.3329)
  circle A89 centre (397.3547, -156.3329) radius 1.5
  circle A90 centre (397.3547, -166.3329) radius 1.5
  circle A91 centre (176.1172, -284.3329) radius 1.5
  circle A92 centre (166.1172, -284.3329) radius 1.5
  line L260 (187.0339, -273.4161) -> (176.4273, -262.8095)
  circle A93 centre (188.8017, -261.0418) radius 1.5
  circle A94 centre (202.9438, -246.8996) radius 1.5
  line L261 (211.7826, -248.6674) -> (201.176, -238.0608)
  line L262 (387.3547, -73.0953) -> (407.3547, -73.0953)
  line L263 (407.3547, -48.0953) -> (387.3547, -48.0953)
  circle A95 centre (397.3547, -53.0953) radius 1.5
  circle A96 centre (397.3547, -63.0953) radius 1.5
  line L264 (386.438, -74.012) -> (375.8314, -63.4054)
  circle A97 centre (374.0636, -75.7798) radius 1.5
  circle A98 centre (359.9215, -89.9219) radius 1.5
  line L265 (361.6893, -98.7608) -> (351.0827, -88.1542)
  circle A99 centre (-84.6453, -284.3329) radius 1.5
  circle A100 centre (-94.6453, -284.3329) radius 1.5
  circle A101 centre (-107.3298, -261.0418) radius 1.5
  circle A102 centre (-121.4719, -246.8996) radius 1.5
  line L266 (-130.3107, -248.6674) -> (-119.7041, -238.0608)
  circle A103 centre (-175.212, -193.1595) radius 1.5
  line L267 (-176.9798, -201.9984) -> (-166.3732, -191.3918)
  circle A104 centre (-189.3542, -179.0174) radius 1.5
  line L268 (-201.7285, -177.2496) -> (-191.1219, -166.643)
  circle A105 centre (-212.6453, -166.3329) radius 1.5
  circle A106 centre (-212.6453, -156.3329) radius 1.5
  line L269 (-222.6453, -151.3329) -> (-202.6453, -151.3329)
  line L270 (-202.6453, -73.0953) -> (-222.6453, -73.0953)
  line L271 (-222.6453, -48.0953) -> (-202.6453, -48.0953)
  circle A107 centre (-212.6453, -53.0953) radius 1.5
  circle A108 centre (-212.6453, -63.0953) radius 1.5
  line L272 (-201.7285, -74.012) -> (-191.1219, -63.4054)
  circle A109 centre (-189.3542, -75.7798) radius 1.5
  circle A110 centre (-175.212, -89.9219) radius 1.5
  line L273 (-176.9798, -98.7608) -> (-166.3732, -88.1542)
  line L274 (-27.0731, -248.6674) -> (-16.4665, -238.0608)
  circle A111 centre (-18.2343, -246.8996) radius 1.5
  circle A112 centre (-4.0922, -261.0418) radius 1.5
  line L275 (-2.3244, -273.4161) -> (8.2822, -262.8095)
  line L276 (-1.4077, -274.3329) -> (-1.4077, -294.3329)
  circle A113 centre (18.5923, -284.3329) radius 1.5
  circle A114 centre (8.5923, -284.3329) radius 1.5
  line L277 (-202.6453, 222.6671) -> (-222.6453, 222.6671)
  line L278 (357.3547, 65.6671) -> (357.3547, 45.6671)
  circle A115 centre (367.3547, 55.6671) radius 1.5
  circle A116 centre (377.3547, 55.6671) radius 1.5
  circle A117 centre (397.3547, 55.6671) radius 1.5
  circle A118 centre (397.3547, 45.6671) radius 1.5
  line L279 (387.3547, 45.6671) -> (407.3547, 45.6671)
  line L280 (357.3547, -24.3329) -> (357.3547, -4.3329)
  circle A119 centre (367.3547, -14.3329) radius 1.5
  circle A120 centre (377.3547, -14.3329) radius 1.5
  circle A121 centre (397.3547, -14.3329) radius 1.5
  circle A122 centre (397.3547, -4.3329) radius 1.5
  line L281 (-172.6453, 65.6671) -> (-172.6453, 45.6671)
  circle A123 centre (-182.6453, 55.6671) radius 1.5
  circle A124 centre (-192.6453, 55.6671) radius 1.5
  circle A125 centre (-212.6453, 55.6671) radius 1.5
  circle A126 centre (-212.6453, 45.6671) radius 1.5
  line L282 (-172.6453, -24.3329) -> (-172.6453, -4.3329)
  circle A127 centre (-182.6453, -14.3329) radius 1.5
  circle A128 centre (-192.6453, -14.3329) radius 1.5
  circle A129 centre (-212.6453, -14.3329) radius 1.5
  circle A130 centre (-212.6453, -4.3329) radius 1.5
  circle A131 centre (140.3547, 365.6671) radius 44
  circle A132 centre (42.3547, 365.6671) radius 44
  circle A133 centre (42.3547, 365.6671) radius 15
  line L283 (387.3547, 65.6671) -> (407.3547, 65.6671)
  line L284 (387.3547, 35.6671) -> (407.3547, 35.6671)
  line L285 (-222.6453, 66.1671) -> (-297.6453, 66.1671)
  line L286 (-297.6453, 66.1671) -> (-297.6453, 20.6671)
  line L287 (-297.6453, 20.6671) -> (-222.6453, 20.6671)
  line L288 (-222.6453, 20.6671) -> (-222.6453, 66.1671)
  circle A134 centre (-212.6453, 68.6671) radius 1.5
  line L289 (-222.6453, -24.8329) -> (-297.6453, -24.8329)
  line L290 (-297.6453, -24.8329) -> (-297.6453, 20.6671)
  circle A135 centre (-282.6453, 40.6671) radius 1.5
  circle A136 centre (-242.6453, 0.6671) radius 1.5
  line L291 (-237.6453, 45.6671) -> (-287.6453, -4.3329)
  line L292 (-287.6453, 45.6671) -> (-237.6453, -4.3329)
  line L293 (-292.6453, 50.6671) -> (-292.6453, 66.1671)
  line L294 (-222.6453, 56.1671) -> (-292.6453, 56.1671)
  line L295 (-292.6453, -9.3329) -> (-292.6453, -24.8329)
  line L296 (-292.6453, -9.3329) -> (-292.6453, 20.6671)
  line L297 (-222.6453, -14.8329) -> (-292.6453, -14.8329)
  line L298 (-287.6453, 45.6671) -> (-292.6453, 50.6671)
  line L299 (-237.6453, 45.6671) -> (-232.6453, 50.6671)
  line L300 (-237.6453, -4.3329) -> (-232.6453, -9.3329)
  line L301 (-287.6453, -4.3329) -> (-292.6453, -9.3329)
  line L302 (-235.678, -13.3713) -> (-241.1808, -7.8684)
  line L303 (-241.1808, -7.8684) -> (-291.1808, 42.1316)
  line L304 (-291.1808, 42.1316) -> (-297.6453, 48.596)
  line L305 (-297.6453, 48.596) -> (-297.6453, 66.1671)
  line L306 (-296.1808, -5.7973) -> (-291.1808, -0.7973)
  line L307 (-291.1808, -0.7973) -> (-241.1808, 49.2027)
  line L308 (-241.1808, 49.2027) -> (-236.1809, 54.2025)
  line L309 (-297.6453, -19.8329) -> (-208.1792, -19.8329) construction
  line L310 (-229.6126, -5.2945) -> (-234.1097, -0.7973)
  line L311 (-234.1097, -0.7973) -> (-284.1097, 49.2027)
  line L312 (-284.1097, 49.2027) -> (-287.6453, 52.7382)
  line L313 (-287.6453, 52.7382) -> (-287.6453, 66.1671)
  line L314 (-289.1097, -12.8684) -> (-284.1097, -7.8684)
  line L315 (-284.1097, -7.8684) -> (-234.1097, 42.1316)
  line L316 (-234.1097, 42.1316) -> (-229.1097, 47.1316)
  line L317 (-232.6453, 66.1671) -> (-232.6453, -19.8329)
  line L318 (-229.1097, 47.1316) -> (-232.6453, 43.596)
  line L319 (-236.1809, 54.2025) -> (-234.2163, 56.1671)
  line L320 (-287.6453, 52.7382) -> (-291.0742, 56.1671)
  line L321 (-289.1097, -12.8684) -> (-291.0742, -14.8329)
  line L322 (-229.6126, -5.2945) -> (-232.6453, -2.2618)
  line L323 (-235.678, -13.3713) -> (-234.2163, -14.8329)
  circle A137 centre (-227.6453, 61.1671) radius 5
  circle A138 centre (-227.6453, 61.1671) radius 1.6
  circle A139 centre (-227.6453, -19.8329) radius 1.6
  point P0 (0, 0)
  point P1 (-49.0948, 52.5578)
  point P2 (-36.6854, 54.8855)
  point P3 (-57.6453, 20.6671)
  point P4 (-149.6453, 325.6671)
  point P5 (-202.6453, 114.4295)
  point P6 (-69.1428, 20.6671)
  point P7 (397.3547, 45.6671)
  point P8 (387.3547, 55.6671)
  point P9 (-292.6453, 43.596)
  point P10 (-269.7163, 20.6671)
  point P11 (-292.6453, -2.2618)
  point P12 (-262.6453, 27.7382)
  point P13 (-255.5742, 20.6671)
  point P14 (-232.6453, 43.596)
  point P15 (-262.6453, 13.596)
  point P16 (-232.6453, 56.1671)
  point P17 (-232.6453, -14.8329)
  dimension "d0" = 3
  dimension "d1" = 5
  dimension "d2" = 5
  dimension "d3" = 3
  dimension "d4" = 5
  dimension "d5" = 5
  dimension "d6" = 10
  dimension "d7" = 5
  dimension "d8" = 5
  dimension "d9" = 5
  dimension "d10" = 5
  dimension "d11" = 10
  dimension "d12" = 10
  dimension "d13" = 3.2
extrude "押し出し1" add sketch "スケッチ1" against normal blind 5 contours L286 L304 L25 L14 | L14 L296 L295 L289 L290 | L286 L22 L25 L304 | L286 L285 L293 L22 | L295 L297 L3 L289 | L293 L285 L313 L294 | L3 A137 L285 | L297 L317 L14 L3 | L285 L317 L294 L313 | A137 | L3 L294 A137 | A137 L317 L285 | L14 L317 L22 L3 | L317 L294 L3 L22 | L294 L317 A137
fillet "フィレット1" radius 2 8 edges at (-2.5, -297.6453, 66.1671) (-2.5, -222.6453, 66.1671) (-2.5, -222.6453, -24.8329) (-2.5, -297.6453, -24.8329) (-2.5, -292.6453, -14.8329) (-2.5, -232.6453, -14.8329) (-2.5, -232.6453, 56.1671) (-2.5, -292.6453, 56.1671)
equation "\"d2\" = d1"
equation "\"d5\" = d4"
properties part number "base_weel-v2-Plate-6" material "アルミニウム 6061"
